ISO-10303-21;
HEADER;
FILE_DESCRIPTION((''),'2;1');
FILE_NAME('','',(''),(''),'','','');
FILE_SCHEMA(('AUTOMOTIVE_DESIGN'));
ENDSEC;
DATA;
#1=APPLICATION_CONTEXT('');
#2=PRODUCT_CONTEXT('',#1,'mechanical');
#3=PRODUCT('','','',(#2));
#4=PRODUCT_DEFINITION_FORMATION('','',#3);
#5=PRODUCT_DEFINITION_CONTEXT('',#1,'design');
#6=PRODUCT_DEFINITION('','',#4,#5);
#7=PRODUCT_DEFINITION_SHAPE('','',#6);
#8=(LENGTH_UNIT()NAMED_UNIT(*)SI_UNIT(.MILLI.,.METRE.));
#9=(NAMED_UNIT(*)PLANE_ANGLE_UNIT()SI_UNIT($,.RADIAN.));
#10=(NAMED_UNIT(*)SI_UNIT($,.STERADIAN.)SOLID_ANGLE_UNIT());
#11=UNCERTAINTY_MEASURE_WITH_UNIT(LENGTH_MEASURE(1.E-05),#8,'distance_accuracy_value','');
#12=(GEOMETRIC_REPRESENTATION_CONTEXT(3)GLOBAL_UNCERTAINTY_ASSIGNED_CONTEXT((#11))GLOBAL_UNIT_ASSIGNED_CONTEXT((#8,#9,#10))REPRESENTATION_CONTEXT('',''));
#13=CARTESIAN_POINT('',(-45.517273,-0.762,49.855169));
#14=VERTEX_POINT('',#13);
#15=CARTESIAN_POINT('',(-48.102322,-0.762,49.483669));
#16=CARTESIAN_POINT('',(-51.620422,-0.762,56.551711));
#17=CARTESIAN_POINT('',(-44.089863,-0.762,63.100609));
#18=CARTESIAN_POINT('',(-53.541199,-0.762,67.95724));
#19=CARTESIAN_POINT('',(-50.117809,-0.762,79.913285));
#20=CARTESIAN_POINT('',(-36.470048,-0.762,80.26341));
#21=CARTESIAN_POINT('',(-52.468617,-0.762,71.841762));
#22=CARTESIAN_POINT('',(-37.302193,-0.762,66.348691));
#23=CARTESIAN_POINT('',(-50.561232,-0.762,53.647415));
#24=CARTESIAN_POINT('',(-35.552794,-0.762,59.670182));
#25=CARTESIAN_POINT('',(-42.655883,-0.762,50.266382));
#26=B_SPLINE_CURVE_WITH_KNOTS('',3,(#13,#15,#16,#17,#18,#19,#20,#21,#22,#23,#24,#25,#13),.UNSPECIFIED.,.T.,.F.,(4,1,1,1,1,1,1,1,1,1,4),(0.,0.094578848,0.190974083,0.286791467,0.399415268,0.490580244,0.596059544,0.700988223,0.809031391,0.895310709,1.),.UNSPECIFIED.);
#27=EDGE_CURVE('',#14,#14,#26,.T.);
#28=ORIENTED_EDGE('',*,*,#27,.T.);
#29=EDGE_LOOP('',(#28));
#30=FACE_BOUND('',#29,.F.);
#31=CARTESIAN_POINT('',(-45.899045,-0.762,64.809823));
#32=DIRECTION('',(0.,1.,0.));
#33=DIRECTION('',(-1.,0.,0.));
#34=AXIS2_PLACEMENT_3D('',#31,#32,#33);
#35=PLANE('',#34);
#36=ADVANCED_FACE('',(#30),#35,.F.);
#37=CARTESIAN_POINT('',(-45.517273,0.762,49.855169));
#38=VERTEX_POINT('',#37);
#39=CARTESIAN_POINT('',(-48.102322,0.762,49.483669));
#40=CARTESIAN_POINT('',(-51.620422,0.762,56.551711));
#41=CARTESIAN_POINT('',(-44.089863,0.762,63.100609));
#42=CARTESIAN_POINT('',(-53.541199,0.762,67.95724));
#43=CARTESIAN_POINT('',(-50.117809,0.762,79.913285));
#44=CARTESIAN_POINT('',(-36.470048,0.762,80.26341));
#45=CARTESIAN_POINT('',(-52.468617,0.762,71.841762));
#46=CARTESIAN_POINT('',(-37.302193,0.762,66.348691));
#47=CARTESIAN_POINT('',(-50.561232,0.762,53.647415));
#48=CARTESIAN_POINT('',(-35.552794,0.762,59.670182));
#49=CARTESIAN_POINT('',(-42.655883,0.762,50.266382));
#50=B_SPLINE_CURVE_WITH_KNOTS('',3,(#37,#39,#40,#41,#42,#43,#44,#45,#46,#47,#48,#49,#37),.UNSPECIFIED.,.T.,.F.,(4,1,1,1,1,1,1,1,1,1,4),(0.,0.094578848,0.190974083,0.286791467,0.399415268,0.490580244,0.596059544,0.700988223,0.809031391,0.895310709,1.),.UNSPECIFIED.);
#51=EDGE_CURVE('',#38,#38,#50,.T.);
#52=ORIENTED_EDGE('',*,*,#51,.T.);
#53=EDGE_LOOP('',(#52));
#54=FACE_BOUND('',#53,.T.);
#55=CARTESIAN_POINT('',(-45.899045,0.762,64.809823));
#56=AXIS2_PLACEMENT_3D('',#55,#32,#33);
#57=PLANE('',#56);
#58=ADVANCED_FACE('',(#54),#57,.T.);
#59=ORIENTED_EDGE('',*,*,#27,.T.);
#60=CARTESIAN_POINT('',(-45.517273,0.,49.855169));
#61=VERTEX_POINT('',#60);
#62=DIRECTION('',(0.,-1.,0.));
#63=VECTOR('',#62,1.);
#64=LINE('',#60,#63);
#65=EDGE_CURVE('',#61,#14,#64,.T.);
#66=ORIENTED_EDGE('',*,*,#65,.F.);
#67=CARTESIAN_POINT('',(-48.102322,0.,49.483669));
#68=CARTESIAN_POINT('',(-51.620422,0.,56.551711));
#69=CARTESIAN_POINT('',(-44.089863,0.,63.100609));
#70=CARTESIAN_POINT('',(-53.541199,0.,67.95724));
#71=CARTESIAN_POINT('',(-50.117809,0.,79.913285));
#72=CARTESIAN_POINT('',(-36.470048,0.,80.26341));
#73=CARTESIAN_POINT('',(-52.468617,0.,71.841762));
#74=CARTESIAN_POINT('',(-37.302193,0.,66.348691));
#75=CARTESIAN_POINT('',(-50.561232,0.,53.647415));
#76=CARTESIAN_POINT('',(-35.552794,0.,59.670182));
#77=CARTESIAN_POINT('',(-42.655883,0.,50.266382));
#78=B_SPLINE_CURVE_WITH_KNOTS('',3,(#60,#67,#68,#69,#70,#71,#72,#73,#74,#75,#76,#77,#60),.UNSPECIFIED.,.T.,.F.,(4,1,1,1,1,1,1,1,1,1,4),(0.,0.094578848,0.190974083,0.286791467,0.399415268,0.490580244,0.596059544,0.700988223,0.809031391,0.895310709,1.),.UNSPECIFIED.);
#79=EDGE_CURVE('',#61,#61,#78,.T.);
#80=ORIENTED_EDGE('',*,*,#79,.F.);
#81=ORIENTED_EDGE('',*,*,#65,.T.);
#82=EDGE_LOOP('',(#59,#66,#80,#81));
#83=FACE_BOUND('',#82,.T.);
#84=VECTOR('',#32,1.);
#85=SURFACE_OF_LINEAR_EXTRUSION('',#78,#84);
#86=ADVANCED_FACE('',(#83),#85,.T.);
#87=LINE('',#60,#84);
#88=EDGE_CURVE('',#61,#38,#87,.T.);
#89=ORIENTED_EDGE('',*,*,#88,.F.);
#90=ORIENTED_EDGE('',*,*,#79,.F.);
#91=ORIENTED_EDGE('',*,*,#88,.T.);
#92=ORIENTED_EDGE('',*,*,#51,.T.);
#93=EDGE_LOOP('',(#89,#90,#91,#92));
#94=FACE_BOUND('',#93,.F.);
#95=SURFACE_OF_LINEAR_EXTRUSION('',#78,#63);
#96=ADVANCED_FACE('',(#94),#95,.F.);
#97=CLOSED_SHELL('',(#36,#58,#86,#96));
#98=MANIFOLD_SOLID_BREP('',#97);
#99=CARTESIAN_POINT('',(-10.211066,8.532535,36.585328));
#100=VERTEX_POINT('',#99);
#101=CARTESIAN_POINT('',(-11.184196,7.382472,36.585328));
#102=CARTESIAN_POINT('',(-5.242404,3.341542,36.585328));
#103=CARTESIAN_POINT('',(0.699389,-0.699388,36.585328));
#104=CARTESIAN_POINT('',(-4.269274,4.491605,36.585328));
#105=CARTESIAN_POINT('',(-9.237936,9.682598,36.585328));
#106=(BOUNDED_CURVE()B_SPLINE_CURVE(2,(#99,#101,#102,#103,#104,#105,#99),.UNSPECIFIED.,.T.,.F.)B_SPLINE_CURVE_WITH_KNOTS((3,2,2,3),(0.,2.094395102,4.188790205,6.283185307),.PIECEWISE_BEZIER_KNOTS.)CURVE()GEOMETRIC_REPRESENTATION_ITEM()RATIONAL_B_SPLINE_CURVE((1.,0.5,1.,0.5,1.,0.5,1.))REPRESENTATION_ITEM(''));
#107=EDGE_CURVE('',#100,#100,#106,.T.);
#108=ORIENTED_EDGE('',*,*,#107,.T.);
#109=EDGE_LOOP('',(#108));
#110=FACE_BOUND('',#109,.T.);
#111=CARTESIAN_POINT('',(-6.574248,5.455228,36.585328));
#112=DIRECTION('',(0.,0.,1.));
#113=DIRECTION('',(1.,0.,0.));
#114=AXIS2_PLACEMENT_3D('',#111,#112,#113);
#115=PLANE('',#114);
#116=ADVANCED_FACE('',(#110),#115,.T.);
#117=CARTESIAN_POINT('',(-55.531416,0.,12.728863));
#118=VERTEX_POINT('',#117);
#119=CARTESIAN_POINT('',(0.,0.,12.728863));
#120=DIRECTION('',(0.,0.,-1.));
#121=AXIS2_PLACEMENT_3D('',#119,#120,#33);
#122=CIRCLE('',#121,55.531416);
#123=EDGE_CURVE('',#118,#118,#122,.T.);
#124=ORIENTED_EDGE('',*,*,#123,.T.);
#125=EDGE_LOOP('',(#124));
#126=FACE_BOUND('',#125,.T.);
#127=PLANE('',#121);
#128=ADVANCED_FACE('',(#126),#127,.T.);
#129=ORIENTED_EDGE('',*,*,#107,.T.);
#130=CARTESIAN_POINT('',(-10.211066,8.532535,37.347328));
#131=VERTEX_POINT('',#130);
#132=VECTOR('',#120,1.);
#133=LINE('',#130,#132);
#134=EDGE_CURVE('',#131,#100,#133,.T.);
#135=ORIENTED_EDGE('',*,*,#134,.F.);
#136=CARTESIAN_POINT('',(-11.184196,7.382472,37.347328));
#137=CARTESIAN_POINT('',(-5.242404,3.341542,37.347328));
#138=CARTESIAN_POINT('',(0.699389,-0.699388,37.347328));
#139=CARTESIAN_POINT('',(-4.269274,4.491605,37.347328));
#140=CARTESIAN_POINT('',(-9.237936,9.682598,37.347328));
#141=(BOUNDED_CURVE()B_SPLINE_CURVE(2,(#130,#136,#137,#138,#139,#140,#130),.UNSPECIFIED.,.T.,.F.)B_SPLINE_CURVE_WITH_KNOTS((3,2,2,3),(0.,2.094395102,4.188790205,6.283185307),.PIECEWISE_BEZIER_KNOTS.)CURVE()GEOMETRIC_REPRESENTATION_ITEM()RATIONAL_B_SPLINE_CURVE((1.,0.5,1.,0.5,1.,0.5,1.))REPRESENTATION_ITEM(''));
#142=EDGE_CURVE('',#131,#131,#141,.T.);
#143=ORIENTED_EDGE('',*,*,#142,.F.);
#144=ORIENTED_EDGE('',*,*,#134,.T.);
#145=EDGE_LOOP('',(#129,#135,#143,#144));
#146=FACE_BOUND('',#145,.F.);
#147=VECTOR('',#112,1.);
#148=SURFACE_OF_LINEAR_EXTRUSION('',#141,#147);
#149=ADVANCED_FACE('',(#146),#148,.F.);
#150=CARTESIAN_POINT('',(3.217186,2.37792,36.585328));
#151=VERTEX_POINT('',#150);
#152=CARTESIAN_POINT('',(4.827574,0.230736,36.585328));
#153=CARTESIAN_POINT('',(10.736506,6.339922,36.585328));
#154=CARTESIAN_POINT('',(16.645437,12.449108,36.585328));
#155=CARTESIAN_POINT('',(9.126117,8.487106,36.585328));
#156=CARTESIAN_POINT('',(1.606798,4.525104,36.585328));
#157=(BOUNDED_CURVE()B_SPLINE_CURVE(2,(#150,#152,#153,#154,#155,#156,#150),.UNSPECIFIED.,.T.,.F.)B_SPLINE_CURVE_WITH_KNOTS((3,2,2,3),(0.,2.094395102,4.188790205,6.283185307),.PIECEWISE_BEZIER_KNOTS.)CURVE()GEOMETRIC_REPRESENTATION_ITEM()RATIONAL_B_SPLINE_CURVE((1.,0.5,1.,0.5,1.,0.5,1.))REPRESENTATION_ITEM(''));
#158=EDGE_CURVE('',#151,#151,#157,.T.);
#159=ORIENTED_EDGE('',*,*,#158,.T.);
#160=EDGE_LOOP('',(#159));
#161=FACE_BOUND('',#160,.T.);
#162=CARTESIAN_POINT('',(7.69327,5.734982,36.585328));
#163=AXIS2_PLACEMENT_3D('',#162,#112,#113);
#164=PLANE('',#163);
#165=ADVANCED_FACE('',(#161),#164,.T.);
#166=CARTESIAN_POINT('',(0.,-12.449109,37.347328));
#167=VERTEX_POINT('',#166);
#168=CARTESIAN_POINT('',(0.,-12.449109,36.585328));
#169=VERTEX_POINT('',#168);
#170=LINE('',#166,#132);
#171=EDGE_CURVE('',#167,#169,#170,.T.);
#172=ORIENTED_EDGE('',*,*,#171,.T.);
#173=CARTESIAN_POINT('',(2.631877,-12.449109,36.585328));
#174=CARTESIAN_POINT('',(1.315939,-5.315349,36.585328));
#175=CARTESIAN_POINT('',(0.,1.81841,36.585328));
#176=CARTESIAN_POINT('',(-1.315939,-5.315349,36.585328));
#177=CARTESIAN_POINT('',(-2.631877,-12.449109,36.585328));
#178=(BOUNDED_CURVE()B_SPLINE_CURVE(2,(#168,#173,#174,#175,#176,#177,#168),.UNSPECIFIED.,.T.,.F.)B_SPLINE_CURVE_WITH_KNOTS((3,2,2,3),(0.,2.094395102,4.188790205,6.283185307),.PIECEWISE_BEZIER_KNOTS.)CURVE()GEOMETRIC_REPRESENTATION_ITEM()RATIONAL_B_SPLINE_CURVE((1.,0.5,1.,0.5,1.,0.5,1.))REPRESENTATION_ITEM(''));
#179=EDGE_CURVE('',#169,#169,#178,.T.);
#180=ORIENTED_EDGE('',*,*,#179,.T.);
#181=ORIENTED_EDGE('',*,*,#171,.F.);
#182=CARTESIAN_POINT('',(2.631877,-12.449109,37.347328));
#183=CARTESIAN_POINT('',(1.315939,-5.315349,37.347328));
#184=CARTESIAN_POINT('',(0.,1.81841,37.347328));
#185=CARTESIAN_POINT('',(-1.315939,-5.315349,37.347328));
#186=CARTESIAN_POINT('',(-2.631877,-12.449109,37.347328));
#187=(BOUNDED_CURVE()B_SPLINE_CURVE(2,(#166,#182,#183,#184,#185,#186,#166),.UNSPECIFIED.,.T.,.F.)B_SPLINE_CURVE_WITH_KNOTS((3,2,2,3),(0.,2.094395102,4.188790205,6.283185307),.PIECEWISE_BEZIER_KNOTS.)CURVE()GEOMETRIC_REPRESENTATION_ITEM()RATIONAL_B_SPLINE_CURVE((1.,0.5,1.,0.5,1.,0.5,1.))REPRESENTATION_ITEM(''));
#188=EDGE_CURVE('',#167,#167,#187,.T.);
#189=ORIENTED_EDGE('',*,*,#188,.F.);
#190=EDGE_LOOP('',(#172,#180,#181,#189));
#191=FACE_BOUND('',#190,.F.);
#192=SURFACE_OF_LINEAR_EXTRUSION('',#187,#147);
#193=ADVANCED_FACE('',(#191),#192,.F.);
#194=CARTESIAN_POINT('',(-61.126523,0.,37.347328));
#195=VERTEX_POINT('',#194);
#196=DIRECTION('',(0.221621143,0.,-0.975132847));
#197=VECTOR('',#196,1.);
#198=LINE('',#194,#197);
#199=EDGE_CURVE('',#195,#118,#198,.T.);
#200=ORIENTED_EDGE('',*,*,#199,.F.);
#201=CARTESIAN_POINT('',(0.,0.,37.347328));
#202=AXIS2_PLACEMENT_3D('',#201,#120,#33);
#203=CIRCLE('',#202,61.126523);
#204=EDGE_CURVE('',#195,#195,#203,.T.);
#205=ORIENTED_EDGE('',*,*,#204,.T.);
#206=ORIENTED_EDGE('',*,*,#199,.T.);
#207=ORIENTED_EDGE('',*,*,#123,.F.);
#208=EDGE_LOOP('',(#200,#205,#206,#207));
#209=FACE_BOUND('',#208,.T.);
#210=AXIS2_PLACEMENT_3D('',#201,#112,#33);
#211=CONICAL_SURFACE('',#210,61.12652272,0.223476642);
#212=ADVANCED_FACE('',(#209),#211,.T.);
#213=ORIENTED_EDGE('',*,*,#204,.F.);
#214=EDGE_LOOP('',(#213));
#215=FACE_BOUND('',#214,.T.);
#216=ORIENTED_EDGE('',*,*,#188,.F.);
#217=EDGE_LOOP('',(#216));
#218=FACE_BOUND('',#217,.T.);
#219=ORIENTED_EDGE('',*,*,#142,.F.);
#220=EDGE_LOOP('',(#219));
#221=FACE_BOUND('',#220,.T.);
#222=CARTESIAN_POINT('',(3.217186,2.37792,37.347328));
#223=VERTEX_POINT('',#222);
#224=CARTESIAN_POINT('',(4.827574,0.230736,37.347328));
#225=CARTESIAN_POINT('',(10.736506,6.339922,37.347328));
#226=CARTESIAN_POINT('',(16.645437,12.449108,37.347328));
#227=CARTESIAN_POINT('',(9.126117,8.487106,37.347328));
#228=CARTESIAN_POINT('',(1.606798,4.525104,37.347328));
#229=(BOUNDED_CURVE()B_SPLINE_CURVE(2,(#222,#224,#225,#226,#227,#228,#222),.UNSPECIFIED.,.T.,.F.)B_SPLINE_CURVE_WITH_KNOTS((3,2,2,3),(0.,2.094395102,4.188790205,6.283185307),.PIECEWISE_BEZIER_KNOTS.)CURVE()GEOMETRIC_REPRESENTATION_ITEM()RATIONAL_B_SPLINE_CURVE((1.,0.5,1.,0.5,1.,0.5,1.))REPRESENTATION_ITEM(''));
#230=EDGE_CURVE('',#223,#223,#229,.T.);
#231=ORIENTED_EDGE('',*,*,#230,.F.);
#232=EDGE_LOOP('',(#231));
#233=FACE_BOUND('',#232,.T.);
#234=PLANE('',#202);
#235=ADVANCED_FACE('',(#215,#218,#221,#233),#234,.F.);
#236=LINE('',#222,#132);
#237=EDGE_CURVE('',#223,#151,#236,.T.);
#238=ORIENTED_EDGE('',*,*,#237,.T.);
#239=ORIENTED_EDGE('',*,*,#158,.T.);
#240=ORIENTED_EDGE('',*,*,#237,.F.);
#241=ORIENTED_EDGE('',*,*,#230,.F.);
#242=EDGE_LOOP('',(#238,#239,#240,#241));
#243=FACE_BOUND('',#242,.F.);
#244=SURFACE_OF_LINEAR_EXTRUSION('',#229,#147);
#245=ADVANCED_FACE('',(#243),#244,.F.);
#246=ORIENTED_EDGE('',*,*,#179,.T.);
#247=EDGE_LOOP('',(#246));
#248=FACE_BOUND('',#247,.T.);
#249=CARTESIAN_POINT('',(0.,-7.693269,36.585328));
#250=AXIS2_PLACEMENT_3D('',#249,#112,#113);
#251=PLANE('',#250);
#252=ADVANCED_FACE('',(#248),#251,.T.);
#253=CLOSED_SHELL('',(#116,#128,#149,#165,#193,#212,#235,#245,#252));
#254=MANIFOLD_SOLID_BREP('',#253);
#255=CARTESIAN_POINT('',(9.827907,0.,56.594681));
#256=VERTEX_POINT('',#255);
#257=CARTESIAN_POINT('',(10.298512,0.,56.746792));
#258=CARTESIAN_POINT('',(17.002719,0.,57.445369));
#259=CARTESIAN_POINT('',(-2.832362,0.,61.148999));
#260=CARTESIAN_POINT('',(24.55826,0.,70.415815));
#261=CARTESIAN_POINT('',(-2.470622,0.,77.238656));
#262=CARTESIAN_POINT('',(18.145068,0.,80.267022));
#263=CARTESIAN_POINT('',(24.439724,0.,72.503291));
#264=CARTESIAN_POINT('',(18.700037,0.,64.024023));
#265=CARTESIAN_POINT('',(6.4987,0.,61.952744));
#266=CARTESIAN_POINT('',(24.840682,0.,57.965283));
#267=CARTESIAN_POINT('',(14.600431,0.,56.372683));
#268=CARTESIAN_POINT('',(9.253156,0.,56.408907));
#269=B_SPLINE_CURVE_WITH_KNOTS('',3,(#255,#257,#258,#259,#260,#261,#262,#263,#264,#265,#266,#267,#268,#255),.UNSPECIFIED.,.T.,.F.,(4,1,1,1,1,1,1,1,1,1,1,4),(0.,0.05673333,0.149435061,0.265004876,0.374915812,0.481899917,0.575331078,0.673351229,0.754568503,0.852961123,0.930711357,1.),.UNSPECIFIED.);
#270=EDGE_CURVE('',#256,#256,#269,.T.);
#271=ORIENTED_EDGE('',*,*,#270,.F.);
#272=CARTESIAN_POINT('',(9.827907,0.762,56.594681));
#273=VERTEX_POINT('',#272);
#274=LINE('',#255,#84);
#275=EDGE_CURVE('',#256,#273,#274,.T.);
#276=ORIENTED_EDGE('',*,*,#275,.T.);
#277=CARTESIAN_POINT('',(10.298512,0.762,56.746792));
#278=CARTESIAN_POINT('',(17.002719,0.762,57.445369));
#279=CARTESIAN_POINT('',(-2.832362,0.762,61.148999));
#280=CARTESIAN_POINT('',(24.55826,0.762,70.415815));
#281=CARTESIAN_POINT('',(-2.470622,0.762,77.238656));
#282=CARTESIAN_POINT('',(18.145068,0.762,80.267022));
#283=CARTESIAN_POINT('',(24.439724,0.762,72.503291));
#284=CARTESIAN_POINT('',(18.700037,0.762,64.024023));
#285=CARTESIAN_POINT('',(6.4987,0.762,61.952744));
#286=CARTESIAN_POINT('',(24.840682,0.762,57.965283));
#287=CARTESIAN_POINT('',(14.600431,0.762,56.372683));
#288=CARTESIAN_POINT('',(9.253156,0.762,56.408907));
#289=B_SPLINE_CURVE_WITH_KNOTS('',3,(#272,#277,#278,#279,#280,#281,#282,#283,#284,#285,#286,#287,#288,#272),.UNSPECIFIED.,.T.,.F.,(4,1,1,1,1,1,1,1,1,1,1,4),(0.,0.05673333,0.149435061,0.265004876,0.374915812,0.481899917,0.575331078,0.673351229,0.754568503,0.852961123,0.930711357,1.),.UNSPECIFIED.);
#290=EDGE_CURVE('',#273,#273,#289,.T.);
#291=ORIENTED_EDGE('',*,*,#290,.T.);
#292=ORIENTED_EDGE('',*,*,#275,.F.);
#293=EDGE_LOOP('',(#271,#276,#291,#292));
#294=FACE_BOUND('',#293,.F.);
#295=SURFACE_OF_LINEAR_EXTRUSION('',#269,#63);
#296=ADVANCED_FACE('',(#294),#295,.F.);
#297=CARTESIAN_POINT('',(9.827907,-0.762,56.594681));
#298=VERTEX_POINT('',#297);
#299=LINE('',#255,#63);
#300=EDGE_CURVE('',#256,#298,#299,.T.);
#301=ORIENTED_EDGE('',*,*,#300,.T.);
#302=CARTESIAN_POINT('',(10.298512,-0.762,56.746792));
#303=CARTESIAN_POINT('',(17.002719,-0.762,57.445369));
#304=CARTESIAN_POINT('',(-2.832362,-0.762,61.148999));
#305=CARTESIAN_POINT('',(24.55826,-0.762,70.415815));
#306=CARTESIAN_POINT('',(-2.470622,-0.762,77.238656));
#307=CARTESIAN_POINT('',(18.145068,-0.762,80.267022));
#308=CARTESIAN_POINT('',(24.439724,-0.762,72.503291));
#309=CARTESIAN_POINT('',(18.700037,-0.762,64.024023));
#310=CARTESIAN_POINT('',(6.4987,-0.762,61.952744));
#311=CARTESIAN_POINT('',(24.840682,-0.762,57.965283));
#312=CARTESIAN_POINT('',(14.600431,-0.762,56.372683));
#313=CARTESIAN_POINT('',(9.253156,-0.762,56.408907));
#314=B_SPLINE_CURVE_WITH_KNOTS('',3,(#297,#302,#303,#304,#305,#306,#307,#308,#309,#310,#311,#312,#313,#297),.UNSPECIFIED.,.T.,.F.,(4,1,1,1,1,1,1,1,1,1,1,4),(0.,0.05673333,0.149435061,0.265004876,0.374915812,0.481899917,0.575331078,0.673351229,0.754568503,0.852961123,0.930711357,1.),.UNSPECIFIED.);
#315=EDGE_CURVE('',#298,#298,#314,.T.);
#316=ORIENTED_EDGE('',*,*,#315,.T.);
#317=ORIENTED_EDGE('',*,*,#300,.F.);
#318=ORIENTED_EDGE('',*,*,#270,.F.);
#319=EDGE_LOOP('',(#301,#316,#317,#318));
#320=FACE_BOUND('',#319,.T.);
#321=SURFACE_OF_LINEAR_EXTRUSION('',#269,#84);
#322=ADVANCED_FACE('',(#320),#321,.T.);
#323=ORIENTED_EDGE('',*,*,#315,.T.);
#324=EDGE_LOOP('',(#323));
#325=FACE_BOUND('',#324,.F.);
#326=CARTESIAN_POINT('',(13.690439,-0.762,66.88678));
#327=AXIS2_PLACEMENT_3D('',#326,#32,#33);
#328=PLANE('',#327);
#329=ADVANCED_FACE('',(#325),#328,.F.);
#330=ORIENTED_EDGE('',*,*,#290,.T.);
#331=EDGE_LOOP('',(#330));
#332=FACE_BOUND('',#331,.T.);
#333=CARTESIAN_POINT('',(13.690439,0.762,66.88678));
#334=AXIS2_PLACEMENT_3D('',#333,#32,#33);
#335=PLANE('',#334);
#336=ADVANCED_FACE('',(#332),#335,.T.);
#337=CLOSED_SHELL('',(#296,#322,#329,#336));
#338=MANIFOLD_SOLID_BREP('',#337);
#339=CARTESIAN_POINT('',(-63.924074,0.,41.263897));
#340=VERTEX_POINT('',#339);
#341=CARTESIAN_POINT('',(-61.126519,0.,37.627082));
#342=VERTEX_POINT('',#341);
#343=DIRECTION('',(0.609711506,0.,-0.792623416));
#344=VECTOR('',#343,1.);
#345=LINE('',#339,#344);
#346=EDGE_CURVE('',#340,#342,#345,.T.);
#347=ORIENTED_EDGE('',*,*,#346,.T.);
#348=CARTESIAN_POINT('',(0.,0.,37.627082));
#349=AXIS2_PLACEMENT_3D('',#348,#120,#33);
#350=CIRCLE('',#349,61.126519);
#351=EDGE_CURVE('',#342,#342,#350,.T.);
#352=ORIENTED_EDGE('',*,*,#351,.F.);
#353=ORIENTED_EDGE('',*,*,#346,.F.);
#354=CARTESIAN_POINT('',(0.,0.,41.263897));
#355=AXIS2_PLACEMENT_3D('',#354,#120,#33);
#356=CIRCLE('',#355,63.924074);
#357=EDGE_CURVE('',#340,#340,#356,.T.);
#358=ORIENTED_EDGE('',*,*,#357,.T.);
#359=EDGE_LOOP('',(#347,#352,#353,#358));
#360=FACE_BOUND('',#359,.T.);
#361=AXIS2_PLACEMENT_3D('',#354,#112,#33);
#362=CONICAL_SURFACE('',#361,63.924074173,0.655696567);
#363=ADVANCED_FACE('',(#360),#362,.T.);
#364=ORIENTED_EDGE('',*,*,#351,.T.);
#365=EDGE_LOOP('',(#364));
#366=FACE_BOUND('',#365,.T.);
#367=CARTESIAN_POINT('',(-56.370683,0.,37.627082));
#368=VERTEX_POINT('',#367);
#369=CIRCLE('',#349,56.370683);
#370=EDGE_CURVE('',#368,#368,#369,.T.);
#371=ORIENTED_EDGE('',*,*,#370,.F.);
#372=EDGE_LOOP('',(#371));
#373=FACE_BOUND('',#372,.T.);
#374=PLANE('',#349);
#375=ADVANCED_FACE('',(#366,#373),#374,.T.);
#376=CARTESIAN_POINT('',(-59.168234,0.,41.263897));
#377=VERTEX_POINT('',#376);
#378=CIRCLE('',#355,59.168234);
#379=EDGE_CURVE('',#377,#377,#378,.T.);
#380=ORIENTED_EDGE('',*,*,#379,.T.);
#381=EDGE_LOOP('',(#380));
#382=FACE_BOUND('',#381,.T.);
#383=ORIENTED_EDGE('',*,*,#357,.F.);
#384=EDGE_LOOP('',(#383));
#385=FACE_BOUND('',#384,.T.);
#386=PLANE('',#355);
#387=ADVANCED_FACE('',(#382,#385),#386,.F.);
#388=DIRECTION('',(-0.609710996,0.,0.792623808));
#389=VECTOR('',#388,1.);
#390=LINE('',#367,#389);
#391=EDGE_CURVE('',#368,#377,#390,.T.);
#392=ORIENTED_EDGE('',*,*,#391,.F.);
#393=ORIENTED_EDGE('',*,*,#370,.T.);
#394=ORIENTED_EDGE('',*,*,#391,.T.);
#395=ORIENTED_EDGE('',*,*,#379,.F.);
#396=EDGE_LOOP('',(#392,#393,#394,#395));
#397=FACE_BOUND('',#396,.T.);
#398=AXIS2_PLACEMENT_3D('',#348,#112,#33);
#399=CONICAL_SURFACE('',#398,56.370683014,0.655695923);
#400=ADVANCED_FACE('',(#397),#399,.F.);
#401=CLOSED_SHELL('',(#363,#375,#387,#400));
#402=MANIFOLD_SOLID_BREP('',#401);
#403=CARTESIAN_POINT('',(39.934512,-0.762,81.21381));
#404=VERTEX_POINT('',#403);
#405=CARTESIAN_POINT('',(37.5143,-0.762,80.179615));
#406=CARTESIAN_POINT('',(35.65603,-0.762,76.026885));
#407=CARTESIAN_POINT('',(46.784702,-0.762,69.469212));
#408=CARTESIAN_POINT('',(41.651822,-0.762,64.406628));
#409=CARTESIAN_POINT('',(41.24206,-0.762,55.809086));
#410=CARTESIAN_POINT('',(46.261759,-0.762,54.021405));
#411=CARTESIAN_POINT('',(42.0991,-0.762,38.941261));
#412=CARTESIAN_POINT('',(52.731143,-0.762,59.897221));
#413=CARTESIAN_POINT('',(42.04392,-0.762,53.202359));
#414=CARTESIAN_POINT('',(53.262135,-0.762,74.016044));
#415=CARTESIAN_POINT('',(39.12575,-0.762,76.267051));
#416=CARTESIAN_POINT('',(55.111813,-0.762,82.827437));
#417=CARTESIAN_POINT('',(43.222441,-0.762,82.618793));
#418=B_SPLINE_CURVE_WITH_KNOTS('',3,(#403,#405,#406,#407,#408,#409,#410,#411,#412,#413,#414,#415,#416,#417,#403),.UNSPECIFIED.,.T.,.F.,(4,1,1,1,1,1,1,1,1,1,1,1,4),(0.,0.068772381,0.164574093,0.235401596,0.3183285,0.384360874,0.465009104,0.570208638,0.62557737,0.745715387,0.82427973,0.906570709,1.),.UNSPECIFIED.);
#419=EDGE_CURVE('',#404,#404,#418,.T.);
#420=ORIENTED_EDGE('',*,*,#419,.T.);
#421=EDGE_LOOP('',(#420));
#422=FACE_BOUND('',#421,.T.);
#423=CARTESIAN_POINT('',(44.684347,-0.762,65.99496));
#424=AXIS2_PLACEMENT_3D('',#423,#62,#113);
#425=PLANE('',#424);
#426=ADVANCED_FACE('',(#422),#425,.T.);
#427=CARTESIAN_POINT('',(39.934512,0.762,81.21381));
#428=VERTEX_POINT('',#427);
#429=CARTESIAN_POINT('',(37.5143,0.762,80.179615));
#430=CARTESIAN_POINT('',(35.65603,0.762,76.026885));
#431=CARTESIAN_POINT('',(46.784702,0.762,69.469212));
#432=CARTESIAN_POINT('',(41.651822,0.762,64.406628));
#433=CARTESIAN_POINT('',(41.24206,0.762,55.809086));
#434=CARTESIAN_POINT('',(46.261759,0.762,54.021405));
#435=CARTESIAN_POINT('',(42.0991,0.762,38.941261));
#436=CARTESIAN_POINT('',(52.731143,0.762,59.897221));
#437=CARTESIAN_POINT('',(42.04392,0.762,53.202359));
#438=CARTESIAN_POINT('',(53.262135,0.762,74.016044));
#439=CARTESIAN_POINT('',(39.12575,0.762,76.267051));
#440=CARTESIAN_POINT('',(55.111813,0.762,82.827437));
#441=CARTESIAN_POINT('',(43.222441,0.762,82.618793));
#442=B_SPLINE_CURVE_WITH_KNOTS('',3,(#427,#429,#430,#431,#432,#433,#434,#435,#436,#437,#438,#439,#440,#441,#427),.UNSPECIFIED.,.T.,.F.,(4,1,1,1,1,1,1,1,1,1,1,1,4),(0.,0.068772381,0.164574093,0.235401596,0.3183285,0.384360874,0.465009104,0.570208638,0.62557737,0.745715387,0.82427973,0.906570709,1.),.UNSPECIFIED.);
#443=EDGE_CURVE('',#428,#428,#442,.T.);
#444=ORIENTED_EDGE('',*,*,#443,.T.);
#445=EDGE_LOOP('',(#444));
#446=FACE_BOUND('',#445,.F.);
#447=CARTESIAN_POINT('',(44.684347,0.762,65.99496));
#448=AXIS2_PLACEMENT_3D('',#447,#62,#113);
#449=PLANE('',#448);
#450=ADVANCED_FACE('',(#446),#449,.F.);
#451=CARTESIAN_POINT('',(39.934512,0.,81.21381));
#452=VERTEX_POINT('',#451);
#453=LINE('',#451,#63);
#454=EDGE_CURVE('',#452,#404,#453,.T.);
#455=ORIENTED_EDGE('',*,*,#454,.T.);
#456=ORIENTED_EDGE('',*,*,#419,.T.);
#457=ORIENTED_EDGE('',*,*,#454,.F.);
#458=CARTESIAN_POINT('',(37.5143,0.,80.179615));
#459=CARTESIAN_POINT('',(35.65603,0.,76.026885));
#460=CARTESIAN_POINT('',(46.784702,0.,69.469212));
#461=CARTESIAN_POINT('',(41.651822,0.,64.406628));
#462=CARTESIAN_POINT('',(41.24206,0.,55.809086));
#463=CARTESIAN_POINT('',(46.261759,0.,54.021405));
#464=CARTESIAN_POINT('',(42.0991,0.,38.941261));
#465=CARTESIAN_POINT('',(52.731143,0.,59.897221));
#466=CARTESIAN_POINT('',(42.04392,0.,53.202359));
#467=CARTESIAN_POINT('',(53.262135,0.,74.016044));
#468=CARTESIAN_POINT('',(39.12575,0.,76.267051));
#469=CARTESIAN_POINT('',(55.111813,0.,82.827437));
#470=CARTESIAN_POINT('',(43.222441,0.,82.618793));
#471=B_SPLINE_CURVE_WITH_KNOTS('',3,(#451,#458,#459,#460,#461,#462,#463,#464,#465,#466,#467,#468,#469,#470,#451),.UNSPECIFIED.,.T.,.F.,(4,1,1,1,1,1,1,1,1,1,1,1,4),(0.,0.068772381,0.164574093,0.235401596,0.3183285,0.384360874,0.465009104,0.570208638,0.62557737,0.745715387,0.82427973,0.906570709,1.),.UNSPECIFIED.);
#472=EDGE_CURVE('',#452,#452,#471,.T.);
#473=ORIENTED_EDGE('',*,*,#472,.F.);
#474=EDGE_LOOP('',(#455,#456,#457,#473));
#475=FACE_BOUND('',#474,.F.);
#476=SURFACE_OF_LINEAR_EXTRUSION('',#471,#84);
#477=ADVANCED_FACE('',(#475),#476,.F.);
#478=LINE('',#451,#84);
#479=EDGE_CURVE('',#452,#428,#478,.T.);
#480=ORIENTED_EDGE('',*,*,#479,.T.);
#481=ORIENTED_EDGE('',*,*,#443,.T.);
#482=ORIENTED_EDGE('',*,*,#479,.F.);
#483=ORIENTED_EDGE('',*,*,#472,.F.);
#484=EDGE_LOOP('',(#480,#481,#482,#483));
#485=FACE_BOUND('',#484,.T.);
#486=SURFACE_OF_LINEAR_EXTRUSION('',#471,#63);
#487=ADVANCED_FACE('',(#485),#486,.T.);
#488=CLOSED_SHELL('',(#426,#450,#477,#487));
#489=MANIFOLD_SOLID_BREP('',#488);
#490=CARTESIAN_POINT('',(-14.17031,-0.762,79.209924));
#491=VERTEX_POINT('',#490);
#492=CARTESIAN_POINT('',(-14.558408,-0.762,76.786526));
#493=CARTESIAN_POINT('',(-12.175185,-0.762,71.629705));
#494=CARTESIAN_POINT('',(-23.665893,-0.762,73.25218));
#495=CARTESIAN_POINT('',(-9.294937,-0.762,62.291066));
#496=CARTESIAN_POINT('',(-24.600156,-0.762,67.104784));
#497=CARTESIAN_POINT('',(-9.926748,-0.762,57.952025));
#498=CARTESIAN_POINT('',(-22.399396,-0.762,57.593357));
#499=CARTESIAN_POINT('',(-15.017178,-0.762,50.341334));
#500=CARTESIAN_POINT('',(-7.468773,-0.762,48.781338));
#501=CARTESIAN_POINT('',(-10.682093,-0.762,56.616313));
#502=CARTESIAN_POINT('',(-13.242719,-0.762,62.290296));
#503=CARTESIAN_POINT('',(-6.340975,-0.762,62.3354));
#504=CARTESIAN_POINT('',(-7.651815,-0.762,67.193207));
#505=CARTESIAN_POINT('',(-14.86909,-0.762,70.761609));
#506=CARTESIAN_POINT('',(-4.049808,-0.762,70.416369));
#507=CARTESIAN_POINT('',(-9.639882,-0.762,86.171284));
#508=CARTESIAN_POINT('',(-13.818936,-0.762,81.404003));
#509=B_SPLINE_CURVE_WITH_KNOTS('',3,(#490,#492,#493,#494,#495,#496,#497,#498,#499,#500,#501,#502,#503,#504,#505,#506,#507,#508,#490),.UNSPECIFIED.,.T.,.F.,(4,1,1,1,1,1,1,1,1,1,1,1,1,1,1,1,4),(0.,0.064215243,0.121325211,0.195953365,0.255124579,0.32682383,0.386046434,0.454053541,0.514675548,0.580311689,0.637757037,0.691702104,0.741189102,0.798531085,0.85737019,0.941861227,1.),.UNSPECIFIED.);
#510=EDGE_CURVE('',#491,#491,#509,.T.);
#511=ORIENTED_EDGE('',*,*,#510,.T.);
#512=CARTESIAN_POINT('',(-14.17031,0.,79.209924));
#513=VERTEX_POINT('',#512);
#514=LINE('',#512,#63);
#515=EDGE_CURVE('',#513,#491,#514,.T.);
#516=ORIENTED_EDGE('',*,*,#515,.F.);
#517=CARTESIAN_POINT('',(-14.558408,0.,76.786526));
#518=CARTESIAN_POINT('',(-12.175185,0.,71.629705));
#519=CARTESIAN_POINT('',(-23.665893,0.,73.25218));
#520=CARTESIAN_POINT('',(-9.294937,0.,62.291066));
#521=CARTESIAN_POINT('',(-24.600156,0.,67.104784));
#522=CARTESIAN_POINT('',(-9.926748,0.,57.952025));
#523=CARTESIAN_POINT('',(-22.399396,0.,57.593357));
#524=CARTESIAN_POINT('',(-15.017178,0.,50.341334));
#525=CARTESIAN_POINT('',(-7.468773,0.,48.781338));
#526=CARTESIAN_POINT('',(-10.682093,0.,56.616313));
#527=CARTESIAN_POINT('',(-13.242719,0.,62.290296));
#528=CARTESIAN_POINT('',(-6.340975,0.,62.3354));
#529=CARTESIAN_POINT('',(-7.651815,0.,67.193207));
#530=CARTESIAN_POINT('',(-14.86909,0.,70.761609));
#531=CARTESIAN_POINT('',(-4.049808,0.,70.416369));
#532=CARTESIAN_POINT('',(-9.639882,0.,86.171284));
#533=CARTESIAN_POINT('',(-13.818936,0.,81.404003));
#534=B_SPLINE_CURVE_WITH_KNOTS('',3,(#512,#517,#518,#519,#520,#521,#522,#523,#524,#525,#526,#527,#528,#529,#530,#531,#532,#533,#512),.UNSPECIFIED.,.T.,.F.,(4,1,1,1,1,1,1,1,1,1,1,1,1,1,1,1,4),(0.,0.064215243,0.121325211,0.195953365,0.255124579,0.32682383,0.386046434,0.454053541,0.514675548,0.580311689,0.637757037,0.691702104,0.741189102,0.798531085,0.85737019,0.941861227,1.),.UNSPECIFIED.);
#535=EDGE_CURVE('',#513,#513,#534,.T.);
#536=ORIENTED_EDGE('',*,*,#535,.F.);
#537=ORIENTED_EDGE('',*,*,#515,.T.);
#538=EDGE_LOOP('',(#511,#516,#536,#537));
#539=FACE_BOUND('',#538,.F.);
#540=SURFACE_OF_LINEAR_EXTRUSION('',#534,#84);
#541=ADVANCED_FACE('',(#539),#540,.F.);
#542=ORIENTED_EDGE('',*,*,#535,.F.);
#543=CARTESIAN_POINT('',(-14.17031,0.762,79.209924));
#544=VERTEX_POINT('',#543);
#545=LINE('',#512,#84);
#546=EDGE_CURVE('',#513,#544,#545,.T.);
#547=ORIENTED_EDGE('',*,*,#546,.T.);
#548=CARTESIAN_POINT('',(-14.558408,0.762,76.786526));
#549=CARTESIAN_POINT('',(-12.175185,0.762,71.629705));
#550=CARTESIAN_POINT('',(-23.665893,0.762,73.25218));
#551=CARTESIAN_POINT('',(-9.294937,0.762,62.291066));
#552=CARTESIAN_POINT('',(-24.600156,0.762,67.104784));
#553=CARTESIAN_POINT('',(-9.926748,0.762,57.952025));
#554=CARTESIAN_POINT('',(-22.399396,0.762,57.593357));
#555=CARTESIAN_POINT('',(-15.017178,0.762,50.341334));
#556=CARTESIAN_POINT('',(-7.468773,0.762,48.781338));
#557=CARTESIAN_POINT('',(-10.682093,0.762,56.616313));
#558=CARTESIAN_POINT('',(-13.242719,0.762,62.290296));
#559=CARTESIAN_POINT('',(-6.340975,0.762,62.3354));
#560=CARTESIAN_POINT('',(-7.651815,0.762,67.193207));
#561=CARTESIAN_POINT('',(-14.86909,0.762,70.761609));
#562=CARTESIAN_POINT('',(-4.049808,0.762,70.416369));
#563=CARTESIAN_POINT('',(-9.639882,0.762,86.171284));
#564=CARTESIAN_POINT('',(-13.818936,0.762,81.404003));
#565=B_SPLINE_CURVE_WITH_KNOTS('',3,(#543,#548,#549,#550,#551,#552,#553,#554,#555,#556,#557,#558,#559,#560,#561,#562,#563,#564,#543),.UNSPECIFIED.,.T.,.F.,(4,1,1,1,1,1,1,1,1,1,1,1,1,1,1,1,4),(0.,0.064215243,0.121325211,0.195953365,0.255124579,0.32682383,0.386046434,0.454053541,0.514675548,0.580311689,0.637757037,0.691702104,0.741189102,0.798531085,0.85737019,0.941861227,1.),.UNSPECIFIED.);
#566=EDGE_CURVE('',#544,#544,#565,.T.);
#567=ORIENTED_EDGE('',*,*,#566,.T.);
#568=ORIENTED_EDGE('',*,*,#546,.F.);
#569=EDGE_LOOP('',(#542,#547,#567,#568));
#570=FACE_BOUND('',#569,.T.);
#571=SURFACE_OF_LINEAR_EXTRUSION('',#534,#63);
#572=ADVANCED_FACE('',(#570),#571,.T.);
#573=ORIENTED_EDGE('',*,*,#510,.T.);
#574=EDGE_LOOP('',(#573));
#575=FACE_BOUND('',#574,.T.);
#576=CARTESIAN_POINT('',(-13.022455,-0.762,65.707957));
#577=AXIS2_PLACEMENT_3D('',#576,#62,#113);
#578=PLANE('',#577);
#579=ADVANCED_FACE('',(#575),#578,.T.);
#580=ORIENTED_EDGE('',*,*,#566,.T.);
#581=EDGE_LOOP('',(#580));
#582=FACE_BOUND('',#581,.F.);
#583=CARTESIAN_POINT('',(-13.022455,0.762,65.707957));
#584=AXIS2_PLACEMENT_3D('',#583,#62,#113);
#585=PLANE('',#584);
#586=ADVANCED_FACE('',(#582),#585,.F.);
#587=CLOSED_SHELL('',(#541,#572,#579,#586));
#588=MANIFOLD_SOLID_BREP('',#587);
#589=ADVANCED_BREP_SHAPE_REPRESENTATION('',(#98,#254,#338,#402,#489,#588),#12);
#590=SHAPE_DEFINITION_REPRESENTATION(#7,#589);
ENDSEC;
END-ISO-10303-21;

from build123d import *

# Parameters (mm, degrees)
F6_DEPTH = 0.762
F8_DEPTH = 0.762


with BuildPart() as f1:
    # F0 (on Front) → F1 (revolve)
    with BuildSketch(Plane.XZ):
        Polygon((0, 37.3473279178), (-61.1265227199, 37.3473279178), (-55.5314160883, 12.7288633958), (0, 12.7288633958), align=None)
    revolve(axis=Axis((0, 0, 25.0380956568), (0, 0, -1)))

    # F5 (on face) → F6 (cut)
    with BuildSketch(Plane.XY.offset(37.3473279178)):
        with BuildLine():
            add(Edge.make_bspline(
                [(0, -12.4491089955), (2.6318771489, -12.4491089955), (1.3159385745, -5.3153494373), (0, 1.8184101209), (-1.3159385745, -5.3153494373), (-2.6318771489, -12.4491089955), (0, -12.4491089955)],
                knots=[0, 0, 0, 2.0943951024, 2.0943951024, 4.1887902048, 4.1887902048, 6.2831853072, 6.2831853072, 6.2831853072], degree=2, weights=[1, 0.5, 1, 0.5, 1, 0.5, 1]))
        make_face()
        with BuildLine():
            add(Edge.make_bspline(
                [(3.2171863131, 2.3779196199), (4.8275744415, 0.2307355976), (10.7365055412, 6.3399218309), (16.6454366408, 12.4491080642), (9.1261174128, 8.4871058532), (1.6067981847, 4.5251036422), (3.2171863131, 2.3779196199)],
                knots=[0, 0, 0, 2.0943951024, 2.0943951024, 4.1887902048, 4.1887902048, 6.2831853072, 6.2831853072, 6.2831853072], degree=2, weights=[1, 0.5, 1, 0.5, 1, 0.5, 1]))
        make_face()
        with BuildLine():
            add(Edge.make_bspline(
                [(-10.2110663429, 8.5325352848), (-11.1841964626, 7.3824723624), (-5.242403834, 3.3415422496), (0.6993887946, -0.6993878633), (-4.2692737143, 4.4916051719), (-9.2379362231, 9.6825982071), (-10.2110663429, 8.5325352848)],
                knots=[0, 0, 0, 2.0943951024, 2.0943951024, 4.1887902048, 4.1887902048, 6.2831853072, 6.2831853072, 6.2831853072], degree=2, weights=[1, 0.5, 1, 0.5, 1, 0.5, 1]))
        make_face()
    extrude(amount=-F6_DEPTH, mode=Mode.SUBTRACT)


with BuildPart() as f4:
    # F3 (on Front) → F4 (revolve)
    with BuildSketch(Plane.XZ):
        Polygon((-63.924074173, 41.2638969719), (-61.1265189946, 37.6270823181), (-56.3706830144, 37.6270823181), (-59.1682344675, 41.2638969719), align=None)
    revolve(axis=Axis((0, 0, 37.3473279178), (0, 0, -1)))


with BuildPart() as f8:
    # F7 (on Front) → F8 (new body, symmetric)
    with BuildSketch(Plane.XZ):
        with BuildLine():
            add(Edge.make_bspline(
                [(-45.5172732472, 49.8551689088), (-48.1023223355, 49.4836692228), (-51.6204221233, 56.5517105259), (-44.0898629194, 63.1006091035), (-53.5411986058, 67.9572395638), (-50.1178087387, 79.9132854895), (-36.4700484247, 80.2634098364), (-52.4686169794, 71.8417621161), (-37.3021934985, 66.348691132), (-50.561231835, 53.6474152961), (-35.5527935301, 59.6701815688), (-42.6558833923, 50.2663817703), (-45.5172732472, 49.8551689088)],
                knots=[0, 0, 0, 0, 0.0945788478, 0.1909740828, 0.2867914666, 0.3994152684, 0.490580244, 0.5960595443, 0.7009882231, 0.8090313907, 0.8953107092, 1, 1, 1, 1], degree=3))
        make_face()
    extrude(amount=F8_DEPTH, both=True)


with BuildPart() as f8b:
    # F7 (on Front) → F8, piece 2 (new body, symmetric)
    with BuildSketch(Plane.XZ):
        with BuildLine():
            add(Edge.make_bspline(
                [(-14.1703095287, 79.2099237442), (-14.5584076674, 76.7865261708), (-12.1751850996, 71.6297051801), (-23.6658930786, 73.2521800976), (-9.2949368041, 62.2910656485), (-24.6001555674, 67.1047841902), (-9.9267484703, 57.9520252387), (-22.3993959948, 57.5933574828), (-15.017177709, 50.3413342457), (-7.4687731954, 48.7813382407), (-10.6820925602, 56.616312503), (-13.242718601, 62.2902956364), (-6.3409747662, 62.3354002831), (-7.6518152848, 67.1932074747), (-14.8690897495, 70.7616088232), (-4.0498083491, 70.4163690874), (-9.6398818893, 86.171283861), (-13.8189358007, 81.4040034234), (-14.1703095287, 79.2099237442)],
                knots=[0, 0, 0, 0, 0.0642152434, 0.1213252113, 0.1959533649, 0.2551245791, 0.3268238301, 0.3860464341, 0.4540535413, 0.5146755482, 0.5803116887, 0.6377570372, 0.6917021039, 0.7411891016, 0.7985310851, 0.8573701899, 0.9418612273, 1, 1, 1, 1], degree=3))
        make_face()
    extrude(amount=F8_DEPTH, both=True)


with BuildPart() as f8c:
    # F7 (on Front) → F8, piece 3 (new body, symmetric)
    with BuildSketch(Plane.XZ):
        with BuildLine():
            add(Edge.make_bspline(
                [(9.8279071972, 56.5946809947), (10.2985119292, 56.7467923859), (17.0027188599, 57.4453687151), (-2.8323624264, 61.1489986667), (24.5582598923, 70.4158149757), (-2.4706218859, 77.2386564005), (18.1450682535, 80.2670222667), (24.4397235629, 72.5032908677), (18.7000365089, 64.0240234218), (6.4987001619, 61.9527435647), (24.8406816308, 57.9652833907), (14.6004314757, 56.3726834857), (9.2531557534, 56.4089067437), (9.8279071972, 56.5946809947)],
                knots=[0, 0, 0, 0, 0.0567333298, 0.1494350615, 0.2650048758, 0.3749158119, 0.4818999173, 0.5753310782, 0.6733512287, 0.7545685032, 0.8529611233, 0.9307113572, 1, 1, 1, 1], degree=3))
        make_face()
    extrude(amount=F8_DEPTH, both=True)


with BuildPart() as f8d:
    # F7 (on Front) → F8, piece 4 (new body, symmetric)
    with BuildSketch(Plane.XZ):
        with BuildLine():
            add(Edge.make_bspline(
                [(39.9345122278, 81.2138095498), (37.5143004447, 80.1796152235), (35.6560302671, 76.0268846708), (46.784701702, 69.4692122408), (41.6518222347, 64.4066276245), (41.2420598564, 55.8090863157), (46.261758626, 54.0214046721), (42.0990997228, 38.941261143), (52.7311426784, 59.8972211703), (42.04392035, 53.2023590479), (53.2621347054, 74.0160440759), (39.1257499001, 76.2670512523), (55.1118134127, 82.8274367099), (43.2224407238, 82.6187927912), (39.9345122278, 81.2138095498)],
                knots=[0, 0, 0, 0, 0.0687723808, 0.1645740933, 0.2354015962, 0.3183285001, 0.3843608738, 0.4650091044, 0.5702086378, 0.6255773702, 0.7457153875, 0.8242797301, 0.9065707092, 1, 1, 1, 1], degree=3))
        make_face()
    extrude(amount=F8_DEPTH, both=True)


solid = Compound([f1.part, f4.part, f8.part, f8b.part, f8c.part, f8d.part])
